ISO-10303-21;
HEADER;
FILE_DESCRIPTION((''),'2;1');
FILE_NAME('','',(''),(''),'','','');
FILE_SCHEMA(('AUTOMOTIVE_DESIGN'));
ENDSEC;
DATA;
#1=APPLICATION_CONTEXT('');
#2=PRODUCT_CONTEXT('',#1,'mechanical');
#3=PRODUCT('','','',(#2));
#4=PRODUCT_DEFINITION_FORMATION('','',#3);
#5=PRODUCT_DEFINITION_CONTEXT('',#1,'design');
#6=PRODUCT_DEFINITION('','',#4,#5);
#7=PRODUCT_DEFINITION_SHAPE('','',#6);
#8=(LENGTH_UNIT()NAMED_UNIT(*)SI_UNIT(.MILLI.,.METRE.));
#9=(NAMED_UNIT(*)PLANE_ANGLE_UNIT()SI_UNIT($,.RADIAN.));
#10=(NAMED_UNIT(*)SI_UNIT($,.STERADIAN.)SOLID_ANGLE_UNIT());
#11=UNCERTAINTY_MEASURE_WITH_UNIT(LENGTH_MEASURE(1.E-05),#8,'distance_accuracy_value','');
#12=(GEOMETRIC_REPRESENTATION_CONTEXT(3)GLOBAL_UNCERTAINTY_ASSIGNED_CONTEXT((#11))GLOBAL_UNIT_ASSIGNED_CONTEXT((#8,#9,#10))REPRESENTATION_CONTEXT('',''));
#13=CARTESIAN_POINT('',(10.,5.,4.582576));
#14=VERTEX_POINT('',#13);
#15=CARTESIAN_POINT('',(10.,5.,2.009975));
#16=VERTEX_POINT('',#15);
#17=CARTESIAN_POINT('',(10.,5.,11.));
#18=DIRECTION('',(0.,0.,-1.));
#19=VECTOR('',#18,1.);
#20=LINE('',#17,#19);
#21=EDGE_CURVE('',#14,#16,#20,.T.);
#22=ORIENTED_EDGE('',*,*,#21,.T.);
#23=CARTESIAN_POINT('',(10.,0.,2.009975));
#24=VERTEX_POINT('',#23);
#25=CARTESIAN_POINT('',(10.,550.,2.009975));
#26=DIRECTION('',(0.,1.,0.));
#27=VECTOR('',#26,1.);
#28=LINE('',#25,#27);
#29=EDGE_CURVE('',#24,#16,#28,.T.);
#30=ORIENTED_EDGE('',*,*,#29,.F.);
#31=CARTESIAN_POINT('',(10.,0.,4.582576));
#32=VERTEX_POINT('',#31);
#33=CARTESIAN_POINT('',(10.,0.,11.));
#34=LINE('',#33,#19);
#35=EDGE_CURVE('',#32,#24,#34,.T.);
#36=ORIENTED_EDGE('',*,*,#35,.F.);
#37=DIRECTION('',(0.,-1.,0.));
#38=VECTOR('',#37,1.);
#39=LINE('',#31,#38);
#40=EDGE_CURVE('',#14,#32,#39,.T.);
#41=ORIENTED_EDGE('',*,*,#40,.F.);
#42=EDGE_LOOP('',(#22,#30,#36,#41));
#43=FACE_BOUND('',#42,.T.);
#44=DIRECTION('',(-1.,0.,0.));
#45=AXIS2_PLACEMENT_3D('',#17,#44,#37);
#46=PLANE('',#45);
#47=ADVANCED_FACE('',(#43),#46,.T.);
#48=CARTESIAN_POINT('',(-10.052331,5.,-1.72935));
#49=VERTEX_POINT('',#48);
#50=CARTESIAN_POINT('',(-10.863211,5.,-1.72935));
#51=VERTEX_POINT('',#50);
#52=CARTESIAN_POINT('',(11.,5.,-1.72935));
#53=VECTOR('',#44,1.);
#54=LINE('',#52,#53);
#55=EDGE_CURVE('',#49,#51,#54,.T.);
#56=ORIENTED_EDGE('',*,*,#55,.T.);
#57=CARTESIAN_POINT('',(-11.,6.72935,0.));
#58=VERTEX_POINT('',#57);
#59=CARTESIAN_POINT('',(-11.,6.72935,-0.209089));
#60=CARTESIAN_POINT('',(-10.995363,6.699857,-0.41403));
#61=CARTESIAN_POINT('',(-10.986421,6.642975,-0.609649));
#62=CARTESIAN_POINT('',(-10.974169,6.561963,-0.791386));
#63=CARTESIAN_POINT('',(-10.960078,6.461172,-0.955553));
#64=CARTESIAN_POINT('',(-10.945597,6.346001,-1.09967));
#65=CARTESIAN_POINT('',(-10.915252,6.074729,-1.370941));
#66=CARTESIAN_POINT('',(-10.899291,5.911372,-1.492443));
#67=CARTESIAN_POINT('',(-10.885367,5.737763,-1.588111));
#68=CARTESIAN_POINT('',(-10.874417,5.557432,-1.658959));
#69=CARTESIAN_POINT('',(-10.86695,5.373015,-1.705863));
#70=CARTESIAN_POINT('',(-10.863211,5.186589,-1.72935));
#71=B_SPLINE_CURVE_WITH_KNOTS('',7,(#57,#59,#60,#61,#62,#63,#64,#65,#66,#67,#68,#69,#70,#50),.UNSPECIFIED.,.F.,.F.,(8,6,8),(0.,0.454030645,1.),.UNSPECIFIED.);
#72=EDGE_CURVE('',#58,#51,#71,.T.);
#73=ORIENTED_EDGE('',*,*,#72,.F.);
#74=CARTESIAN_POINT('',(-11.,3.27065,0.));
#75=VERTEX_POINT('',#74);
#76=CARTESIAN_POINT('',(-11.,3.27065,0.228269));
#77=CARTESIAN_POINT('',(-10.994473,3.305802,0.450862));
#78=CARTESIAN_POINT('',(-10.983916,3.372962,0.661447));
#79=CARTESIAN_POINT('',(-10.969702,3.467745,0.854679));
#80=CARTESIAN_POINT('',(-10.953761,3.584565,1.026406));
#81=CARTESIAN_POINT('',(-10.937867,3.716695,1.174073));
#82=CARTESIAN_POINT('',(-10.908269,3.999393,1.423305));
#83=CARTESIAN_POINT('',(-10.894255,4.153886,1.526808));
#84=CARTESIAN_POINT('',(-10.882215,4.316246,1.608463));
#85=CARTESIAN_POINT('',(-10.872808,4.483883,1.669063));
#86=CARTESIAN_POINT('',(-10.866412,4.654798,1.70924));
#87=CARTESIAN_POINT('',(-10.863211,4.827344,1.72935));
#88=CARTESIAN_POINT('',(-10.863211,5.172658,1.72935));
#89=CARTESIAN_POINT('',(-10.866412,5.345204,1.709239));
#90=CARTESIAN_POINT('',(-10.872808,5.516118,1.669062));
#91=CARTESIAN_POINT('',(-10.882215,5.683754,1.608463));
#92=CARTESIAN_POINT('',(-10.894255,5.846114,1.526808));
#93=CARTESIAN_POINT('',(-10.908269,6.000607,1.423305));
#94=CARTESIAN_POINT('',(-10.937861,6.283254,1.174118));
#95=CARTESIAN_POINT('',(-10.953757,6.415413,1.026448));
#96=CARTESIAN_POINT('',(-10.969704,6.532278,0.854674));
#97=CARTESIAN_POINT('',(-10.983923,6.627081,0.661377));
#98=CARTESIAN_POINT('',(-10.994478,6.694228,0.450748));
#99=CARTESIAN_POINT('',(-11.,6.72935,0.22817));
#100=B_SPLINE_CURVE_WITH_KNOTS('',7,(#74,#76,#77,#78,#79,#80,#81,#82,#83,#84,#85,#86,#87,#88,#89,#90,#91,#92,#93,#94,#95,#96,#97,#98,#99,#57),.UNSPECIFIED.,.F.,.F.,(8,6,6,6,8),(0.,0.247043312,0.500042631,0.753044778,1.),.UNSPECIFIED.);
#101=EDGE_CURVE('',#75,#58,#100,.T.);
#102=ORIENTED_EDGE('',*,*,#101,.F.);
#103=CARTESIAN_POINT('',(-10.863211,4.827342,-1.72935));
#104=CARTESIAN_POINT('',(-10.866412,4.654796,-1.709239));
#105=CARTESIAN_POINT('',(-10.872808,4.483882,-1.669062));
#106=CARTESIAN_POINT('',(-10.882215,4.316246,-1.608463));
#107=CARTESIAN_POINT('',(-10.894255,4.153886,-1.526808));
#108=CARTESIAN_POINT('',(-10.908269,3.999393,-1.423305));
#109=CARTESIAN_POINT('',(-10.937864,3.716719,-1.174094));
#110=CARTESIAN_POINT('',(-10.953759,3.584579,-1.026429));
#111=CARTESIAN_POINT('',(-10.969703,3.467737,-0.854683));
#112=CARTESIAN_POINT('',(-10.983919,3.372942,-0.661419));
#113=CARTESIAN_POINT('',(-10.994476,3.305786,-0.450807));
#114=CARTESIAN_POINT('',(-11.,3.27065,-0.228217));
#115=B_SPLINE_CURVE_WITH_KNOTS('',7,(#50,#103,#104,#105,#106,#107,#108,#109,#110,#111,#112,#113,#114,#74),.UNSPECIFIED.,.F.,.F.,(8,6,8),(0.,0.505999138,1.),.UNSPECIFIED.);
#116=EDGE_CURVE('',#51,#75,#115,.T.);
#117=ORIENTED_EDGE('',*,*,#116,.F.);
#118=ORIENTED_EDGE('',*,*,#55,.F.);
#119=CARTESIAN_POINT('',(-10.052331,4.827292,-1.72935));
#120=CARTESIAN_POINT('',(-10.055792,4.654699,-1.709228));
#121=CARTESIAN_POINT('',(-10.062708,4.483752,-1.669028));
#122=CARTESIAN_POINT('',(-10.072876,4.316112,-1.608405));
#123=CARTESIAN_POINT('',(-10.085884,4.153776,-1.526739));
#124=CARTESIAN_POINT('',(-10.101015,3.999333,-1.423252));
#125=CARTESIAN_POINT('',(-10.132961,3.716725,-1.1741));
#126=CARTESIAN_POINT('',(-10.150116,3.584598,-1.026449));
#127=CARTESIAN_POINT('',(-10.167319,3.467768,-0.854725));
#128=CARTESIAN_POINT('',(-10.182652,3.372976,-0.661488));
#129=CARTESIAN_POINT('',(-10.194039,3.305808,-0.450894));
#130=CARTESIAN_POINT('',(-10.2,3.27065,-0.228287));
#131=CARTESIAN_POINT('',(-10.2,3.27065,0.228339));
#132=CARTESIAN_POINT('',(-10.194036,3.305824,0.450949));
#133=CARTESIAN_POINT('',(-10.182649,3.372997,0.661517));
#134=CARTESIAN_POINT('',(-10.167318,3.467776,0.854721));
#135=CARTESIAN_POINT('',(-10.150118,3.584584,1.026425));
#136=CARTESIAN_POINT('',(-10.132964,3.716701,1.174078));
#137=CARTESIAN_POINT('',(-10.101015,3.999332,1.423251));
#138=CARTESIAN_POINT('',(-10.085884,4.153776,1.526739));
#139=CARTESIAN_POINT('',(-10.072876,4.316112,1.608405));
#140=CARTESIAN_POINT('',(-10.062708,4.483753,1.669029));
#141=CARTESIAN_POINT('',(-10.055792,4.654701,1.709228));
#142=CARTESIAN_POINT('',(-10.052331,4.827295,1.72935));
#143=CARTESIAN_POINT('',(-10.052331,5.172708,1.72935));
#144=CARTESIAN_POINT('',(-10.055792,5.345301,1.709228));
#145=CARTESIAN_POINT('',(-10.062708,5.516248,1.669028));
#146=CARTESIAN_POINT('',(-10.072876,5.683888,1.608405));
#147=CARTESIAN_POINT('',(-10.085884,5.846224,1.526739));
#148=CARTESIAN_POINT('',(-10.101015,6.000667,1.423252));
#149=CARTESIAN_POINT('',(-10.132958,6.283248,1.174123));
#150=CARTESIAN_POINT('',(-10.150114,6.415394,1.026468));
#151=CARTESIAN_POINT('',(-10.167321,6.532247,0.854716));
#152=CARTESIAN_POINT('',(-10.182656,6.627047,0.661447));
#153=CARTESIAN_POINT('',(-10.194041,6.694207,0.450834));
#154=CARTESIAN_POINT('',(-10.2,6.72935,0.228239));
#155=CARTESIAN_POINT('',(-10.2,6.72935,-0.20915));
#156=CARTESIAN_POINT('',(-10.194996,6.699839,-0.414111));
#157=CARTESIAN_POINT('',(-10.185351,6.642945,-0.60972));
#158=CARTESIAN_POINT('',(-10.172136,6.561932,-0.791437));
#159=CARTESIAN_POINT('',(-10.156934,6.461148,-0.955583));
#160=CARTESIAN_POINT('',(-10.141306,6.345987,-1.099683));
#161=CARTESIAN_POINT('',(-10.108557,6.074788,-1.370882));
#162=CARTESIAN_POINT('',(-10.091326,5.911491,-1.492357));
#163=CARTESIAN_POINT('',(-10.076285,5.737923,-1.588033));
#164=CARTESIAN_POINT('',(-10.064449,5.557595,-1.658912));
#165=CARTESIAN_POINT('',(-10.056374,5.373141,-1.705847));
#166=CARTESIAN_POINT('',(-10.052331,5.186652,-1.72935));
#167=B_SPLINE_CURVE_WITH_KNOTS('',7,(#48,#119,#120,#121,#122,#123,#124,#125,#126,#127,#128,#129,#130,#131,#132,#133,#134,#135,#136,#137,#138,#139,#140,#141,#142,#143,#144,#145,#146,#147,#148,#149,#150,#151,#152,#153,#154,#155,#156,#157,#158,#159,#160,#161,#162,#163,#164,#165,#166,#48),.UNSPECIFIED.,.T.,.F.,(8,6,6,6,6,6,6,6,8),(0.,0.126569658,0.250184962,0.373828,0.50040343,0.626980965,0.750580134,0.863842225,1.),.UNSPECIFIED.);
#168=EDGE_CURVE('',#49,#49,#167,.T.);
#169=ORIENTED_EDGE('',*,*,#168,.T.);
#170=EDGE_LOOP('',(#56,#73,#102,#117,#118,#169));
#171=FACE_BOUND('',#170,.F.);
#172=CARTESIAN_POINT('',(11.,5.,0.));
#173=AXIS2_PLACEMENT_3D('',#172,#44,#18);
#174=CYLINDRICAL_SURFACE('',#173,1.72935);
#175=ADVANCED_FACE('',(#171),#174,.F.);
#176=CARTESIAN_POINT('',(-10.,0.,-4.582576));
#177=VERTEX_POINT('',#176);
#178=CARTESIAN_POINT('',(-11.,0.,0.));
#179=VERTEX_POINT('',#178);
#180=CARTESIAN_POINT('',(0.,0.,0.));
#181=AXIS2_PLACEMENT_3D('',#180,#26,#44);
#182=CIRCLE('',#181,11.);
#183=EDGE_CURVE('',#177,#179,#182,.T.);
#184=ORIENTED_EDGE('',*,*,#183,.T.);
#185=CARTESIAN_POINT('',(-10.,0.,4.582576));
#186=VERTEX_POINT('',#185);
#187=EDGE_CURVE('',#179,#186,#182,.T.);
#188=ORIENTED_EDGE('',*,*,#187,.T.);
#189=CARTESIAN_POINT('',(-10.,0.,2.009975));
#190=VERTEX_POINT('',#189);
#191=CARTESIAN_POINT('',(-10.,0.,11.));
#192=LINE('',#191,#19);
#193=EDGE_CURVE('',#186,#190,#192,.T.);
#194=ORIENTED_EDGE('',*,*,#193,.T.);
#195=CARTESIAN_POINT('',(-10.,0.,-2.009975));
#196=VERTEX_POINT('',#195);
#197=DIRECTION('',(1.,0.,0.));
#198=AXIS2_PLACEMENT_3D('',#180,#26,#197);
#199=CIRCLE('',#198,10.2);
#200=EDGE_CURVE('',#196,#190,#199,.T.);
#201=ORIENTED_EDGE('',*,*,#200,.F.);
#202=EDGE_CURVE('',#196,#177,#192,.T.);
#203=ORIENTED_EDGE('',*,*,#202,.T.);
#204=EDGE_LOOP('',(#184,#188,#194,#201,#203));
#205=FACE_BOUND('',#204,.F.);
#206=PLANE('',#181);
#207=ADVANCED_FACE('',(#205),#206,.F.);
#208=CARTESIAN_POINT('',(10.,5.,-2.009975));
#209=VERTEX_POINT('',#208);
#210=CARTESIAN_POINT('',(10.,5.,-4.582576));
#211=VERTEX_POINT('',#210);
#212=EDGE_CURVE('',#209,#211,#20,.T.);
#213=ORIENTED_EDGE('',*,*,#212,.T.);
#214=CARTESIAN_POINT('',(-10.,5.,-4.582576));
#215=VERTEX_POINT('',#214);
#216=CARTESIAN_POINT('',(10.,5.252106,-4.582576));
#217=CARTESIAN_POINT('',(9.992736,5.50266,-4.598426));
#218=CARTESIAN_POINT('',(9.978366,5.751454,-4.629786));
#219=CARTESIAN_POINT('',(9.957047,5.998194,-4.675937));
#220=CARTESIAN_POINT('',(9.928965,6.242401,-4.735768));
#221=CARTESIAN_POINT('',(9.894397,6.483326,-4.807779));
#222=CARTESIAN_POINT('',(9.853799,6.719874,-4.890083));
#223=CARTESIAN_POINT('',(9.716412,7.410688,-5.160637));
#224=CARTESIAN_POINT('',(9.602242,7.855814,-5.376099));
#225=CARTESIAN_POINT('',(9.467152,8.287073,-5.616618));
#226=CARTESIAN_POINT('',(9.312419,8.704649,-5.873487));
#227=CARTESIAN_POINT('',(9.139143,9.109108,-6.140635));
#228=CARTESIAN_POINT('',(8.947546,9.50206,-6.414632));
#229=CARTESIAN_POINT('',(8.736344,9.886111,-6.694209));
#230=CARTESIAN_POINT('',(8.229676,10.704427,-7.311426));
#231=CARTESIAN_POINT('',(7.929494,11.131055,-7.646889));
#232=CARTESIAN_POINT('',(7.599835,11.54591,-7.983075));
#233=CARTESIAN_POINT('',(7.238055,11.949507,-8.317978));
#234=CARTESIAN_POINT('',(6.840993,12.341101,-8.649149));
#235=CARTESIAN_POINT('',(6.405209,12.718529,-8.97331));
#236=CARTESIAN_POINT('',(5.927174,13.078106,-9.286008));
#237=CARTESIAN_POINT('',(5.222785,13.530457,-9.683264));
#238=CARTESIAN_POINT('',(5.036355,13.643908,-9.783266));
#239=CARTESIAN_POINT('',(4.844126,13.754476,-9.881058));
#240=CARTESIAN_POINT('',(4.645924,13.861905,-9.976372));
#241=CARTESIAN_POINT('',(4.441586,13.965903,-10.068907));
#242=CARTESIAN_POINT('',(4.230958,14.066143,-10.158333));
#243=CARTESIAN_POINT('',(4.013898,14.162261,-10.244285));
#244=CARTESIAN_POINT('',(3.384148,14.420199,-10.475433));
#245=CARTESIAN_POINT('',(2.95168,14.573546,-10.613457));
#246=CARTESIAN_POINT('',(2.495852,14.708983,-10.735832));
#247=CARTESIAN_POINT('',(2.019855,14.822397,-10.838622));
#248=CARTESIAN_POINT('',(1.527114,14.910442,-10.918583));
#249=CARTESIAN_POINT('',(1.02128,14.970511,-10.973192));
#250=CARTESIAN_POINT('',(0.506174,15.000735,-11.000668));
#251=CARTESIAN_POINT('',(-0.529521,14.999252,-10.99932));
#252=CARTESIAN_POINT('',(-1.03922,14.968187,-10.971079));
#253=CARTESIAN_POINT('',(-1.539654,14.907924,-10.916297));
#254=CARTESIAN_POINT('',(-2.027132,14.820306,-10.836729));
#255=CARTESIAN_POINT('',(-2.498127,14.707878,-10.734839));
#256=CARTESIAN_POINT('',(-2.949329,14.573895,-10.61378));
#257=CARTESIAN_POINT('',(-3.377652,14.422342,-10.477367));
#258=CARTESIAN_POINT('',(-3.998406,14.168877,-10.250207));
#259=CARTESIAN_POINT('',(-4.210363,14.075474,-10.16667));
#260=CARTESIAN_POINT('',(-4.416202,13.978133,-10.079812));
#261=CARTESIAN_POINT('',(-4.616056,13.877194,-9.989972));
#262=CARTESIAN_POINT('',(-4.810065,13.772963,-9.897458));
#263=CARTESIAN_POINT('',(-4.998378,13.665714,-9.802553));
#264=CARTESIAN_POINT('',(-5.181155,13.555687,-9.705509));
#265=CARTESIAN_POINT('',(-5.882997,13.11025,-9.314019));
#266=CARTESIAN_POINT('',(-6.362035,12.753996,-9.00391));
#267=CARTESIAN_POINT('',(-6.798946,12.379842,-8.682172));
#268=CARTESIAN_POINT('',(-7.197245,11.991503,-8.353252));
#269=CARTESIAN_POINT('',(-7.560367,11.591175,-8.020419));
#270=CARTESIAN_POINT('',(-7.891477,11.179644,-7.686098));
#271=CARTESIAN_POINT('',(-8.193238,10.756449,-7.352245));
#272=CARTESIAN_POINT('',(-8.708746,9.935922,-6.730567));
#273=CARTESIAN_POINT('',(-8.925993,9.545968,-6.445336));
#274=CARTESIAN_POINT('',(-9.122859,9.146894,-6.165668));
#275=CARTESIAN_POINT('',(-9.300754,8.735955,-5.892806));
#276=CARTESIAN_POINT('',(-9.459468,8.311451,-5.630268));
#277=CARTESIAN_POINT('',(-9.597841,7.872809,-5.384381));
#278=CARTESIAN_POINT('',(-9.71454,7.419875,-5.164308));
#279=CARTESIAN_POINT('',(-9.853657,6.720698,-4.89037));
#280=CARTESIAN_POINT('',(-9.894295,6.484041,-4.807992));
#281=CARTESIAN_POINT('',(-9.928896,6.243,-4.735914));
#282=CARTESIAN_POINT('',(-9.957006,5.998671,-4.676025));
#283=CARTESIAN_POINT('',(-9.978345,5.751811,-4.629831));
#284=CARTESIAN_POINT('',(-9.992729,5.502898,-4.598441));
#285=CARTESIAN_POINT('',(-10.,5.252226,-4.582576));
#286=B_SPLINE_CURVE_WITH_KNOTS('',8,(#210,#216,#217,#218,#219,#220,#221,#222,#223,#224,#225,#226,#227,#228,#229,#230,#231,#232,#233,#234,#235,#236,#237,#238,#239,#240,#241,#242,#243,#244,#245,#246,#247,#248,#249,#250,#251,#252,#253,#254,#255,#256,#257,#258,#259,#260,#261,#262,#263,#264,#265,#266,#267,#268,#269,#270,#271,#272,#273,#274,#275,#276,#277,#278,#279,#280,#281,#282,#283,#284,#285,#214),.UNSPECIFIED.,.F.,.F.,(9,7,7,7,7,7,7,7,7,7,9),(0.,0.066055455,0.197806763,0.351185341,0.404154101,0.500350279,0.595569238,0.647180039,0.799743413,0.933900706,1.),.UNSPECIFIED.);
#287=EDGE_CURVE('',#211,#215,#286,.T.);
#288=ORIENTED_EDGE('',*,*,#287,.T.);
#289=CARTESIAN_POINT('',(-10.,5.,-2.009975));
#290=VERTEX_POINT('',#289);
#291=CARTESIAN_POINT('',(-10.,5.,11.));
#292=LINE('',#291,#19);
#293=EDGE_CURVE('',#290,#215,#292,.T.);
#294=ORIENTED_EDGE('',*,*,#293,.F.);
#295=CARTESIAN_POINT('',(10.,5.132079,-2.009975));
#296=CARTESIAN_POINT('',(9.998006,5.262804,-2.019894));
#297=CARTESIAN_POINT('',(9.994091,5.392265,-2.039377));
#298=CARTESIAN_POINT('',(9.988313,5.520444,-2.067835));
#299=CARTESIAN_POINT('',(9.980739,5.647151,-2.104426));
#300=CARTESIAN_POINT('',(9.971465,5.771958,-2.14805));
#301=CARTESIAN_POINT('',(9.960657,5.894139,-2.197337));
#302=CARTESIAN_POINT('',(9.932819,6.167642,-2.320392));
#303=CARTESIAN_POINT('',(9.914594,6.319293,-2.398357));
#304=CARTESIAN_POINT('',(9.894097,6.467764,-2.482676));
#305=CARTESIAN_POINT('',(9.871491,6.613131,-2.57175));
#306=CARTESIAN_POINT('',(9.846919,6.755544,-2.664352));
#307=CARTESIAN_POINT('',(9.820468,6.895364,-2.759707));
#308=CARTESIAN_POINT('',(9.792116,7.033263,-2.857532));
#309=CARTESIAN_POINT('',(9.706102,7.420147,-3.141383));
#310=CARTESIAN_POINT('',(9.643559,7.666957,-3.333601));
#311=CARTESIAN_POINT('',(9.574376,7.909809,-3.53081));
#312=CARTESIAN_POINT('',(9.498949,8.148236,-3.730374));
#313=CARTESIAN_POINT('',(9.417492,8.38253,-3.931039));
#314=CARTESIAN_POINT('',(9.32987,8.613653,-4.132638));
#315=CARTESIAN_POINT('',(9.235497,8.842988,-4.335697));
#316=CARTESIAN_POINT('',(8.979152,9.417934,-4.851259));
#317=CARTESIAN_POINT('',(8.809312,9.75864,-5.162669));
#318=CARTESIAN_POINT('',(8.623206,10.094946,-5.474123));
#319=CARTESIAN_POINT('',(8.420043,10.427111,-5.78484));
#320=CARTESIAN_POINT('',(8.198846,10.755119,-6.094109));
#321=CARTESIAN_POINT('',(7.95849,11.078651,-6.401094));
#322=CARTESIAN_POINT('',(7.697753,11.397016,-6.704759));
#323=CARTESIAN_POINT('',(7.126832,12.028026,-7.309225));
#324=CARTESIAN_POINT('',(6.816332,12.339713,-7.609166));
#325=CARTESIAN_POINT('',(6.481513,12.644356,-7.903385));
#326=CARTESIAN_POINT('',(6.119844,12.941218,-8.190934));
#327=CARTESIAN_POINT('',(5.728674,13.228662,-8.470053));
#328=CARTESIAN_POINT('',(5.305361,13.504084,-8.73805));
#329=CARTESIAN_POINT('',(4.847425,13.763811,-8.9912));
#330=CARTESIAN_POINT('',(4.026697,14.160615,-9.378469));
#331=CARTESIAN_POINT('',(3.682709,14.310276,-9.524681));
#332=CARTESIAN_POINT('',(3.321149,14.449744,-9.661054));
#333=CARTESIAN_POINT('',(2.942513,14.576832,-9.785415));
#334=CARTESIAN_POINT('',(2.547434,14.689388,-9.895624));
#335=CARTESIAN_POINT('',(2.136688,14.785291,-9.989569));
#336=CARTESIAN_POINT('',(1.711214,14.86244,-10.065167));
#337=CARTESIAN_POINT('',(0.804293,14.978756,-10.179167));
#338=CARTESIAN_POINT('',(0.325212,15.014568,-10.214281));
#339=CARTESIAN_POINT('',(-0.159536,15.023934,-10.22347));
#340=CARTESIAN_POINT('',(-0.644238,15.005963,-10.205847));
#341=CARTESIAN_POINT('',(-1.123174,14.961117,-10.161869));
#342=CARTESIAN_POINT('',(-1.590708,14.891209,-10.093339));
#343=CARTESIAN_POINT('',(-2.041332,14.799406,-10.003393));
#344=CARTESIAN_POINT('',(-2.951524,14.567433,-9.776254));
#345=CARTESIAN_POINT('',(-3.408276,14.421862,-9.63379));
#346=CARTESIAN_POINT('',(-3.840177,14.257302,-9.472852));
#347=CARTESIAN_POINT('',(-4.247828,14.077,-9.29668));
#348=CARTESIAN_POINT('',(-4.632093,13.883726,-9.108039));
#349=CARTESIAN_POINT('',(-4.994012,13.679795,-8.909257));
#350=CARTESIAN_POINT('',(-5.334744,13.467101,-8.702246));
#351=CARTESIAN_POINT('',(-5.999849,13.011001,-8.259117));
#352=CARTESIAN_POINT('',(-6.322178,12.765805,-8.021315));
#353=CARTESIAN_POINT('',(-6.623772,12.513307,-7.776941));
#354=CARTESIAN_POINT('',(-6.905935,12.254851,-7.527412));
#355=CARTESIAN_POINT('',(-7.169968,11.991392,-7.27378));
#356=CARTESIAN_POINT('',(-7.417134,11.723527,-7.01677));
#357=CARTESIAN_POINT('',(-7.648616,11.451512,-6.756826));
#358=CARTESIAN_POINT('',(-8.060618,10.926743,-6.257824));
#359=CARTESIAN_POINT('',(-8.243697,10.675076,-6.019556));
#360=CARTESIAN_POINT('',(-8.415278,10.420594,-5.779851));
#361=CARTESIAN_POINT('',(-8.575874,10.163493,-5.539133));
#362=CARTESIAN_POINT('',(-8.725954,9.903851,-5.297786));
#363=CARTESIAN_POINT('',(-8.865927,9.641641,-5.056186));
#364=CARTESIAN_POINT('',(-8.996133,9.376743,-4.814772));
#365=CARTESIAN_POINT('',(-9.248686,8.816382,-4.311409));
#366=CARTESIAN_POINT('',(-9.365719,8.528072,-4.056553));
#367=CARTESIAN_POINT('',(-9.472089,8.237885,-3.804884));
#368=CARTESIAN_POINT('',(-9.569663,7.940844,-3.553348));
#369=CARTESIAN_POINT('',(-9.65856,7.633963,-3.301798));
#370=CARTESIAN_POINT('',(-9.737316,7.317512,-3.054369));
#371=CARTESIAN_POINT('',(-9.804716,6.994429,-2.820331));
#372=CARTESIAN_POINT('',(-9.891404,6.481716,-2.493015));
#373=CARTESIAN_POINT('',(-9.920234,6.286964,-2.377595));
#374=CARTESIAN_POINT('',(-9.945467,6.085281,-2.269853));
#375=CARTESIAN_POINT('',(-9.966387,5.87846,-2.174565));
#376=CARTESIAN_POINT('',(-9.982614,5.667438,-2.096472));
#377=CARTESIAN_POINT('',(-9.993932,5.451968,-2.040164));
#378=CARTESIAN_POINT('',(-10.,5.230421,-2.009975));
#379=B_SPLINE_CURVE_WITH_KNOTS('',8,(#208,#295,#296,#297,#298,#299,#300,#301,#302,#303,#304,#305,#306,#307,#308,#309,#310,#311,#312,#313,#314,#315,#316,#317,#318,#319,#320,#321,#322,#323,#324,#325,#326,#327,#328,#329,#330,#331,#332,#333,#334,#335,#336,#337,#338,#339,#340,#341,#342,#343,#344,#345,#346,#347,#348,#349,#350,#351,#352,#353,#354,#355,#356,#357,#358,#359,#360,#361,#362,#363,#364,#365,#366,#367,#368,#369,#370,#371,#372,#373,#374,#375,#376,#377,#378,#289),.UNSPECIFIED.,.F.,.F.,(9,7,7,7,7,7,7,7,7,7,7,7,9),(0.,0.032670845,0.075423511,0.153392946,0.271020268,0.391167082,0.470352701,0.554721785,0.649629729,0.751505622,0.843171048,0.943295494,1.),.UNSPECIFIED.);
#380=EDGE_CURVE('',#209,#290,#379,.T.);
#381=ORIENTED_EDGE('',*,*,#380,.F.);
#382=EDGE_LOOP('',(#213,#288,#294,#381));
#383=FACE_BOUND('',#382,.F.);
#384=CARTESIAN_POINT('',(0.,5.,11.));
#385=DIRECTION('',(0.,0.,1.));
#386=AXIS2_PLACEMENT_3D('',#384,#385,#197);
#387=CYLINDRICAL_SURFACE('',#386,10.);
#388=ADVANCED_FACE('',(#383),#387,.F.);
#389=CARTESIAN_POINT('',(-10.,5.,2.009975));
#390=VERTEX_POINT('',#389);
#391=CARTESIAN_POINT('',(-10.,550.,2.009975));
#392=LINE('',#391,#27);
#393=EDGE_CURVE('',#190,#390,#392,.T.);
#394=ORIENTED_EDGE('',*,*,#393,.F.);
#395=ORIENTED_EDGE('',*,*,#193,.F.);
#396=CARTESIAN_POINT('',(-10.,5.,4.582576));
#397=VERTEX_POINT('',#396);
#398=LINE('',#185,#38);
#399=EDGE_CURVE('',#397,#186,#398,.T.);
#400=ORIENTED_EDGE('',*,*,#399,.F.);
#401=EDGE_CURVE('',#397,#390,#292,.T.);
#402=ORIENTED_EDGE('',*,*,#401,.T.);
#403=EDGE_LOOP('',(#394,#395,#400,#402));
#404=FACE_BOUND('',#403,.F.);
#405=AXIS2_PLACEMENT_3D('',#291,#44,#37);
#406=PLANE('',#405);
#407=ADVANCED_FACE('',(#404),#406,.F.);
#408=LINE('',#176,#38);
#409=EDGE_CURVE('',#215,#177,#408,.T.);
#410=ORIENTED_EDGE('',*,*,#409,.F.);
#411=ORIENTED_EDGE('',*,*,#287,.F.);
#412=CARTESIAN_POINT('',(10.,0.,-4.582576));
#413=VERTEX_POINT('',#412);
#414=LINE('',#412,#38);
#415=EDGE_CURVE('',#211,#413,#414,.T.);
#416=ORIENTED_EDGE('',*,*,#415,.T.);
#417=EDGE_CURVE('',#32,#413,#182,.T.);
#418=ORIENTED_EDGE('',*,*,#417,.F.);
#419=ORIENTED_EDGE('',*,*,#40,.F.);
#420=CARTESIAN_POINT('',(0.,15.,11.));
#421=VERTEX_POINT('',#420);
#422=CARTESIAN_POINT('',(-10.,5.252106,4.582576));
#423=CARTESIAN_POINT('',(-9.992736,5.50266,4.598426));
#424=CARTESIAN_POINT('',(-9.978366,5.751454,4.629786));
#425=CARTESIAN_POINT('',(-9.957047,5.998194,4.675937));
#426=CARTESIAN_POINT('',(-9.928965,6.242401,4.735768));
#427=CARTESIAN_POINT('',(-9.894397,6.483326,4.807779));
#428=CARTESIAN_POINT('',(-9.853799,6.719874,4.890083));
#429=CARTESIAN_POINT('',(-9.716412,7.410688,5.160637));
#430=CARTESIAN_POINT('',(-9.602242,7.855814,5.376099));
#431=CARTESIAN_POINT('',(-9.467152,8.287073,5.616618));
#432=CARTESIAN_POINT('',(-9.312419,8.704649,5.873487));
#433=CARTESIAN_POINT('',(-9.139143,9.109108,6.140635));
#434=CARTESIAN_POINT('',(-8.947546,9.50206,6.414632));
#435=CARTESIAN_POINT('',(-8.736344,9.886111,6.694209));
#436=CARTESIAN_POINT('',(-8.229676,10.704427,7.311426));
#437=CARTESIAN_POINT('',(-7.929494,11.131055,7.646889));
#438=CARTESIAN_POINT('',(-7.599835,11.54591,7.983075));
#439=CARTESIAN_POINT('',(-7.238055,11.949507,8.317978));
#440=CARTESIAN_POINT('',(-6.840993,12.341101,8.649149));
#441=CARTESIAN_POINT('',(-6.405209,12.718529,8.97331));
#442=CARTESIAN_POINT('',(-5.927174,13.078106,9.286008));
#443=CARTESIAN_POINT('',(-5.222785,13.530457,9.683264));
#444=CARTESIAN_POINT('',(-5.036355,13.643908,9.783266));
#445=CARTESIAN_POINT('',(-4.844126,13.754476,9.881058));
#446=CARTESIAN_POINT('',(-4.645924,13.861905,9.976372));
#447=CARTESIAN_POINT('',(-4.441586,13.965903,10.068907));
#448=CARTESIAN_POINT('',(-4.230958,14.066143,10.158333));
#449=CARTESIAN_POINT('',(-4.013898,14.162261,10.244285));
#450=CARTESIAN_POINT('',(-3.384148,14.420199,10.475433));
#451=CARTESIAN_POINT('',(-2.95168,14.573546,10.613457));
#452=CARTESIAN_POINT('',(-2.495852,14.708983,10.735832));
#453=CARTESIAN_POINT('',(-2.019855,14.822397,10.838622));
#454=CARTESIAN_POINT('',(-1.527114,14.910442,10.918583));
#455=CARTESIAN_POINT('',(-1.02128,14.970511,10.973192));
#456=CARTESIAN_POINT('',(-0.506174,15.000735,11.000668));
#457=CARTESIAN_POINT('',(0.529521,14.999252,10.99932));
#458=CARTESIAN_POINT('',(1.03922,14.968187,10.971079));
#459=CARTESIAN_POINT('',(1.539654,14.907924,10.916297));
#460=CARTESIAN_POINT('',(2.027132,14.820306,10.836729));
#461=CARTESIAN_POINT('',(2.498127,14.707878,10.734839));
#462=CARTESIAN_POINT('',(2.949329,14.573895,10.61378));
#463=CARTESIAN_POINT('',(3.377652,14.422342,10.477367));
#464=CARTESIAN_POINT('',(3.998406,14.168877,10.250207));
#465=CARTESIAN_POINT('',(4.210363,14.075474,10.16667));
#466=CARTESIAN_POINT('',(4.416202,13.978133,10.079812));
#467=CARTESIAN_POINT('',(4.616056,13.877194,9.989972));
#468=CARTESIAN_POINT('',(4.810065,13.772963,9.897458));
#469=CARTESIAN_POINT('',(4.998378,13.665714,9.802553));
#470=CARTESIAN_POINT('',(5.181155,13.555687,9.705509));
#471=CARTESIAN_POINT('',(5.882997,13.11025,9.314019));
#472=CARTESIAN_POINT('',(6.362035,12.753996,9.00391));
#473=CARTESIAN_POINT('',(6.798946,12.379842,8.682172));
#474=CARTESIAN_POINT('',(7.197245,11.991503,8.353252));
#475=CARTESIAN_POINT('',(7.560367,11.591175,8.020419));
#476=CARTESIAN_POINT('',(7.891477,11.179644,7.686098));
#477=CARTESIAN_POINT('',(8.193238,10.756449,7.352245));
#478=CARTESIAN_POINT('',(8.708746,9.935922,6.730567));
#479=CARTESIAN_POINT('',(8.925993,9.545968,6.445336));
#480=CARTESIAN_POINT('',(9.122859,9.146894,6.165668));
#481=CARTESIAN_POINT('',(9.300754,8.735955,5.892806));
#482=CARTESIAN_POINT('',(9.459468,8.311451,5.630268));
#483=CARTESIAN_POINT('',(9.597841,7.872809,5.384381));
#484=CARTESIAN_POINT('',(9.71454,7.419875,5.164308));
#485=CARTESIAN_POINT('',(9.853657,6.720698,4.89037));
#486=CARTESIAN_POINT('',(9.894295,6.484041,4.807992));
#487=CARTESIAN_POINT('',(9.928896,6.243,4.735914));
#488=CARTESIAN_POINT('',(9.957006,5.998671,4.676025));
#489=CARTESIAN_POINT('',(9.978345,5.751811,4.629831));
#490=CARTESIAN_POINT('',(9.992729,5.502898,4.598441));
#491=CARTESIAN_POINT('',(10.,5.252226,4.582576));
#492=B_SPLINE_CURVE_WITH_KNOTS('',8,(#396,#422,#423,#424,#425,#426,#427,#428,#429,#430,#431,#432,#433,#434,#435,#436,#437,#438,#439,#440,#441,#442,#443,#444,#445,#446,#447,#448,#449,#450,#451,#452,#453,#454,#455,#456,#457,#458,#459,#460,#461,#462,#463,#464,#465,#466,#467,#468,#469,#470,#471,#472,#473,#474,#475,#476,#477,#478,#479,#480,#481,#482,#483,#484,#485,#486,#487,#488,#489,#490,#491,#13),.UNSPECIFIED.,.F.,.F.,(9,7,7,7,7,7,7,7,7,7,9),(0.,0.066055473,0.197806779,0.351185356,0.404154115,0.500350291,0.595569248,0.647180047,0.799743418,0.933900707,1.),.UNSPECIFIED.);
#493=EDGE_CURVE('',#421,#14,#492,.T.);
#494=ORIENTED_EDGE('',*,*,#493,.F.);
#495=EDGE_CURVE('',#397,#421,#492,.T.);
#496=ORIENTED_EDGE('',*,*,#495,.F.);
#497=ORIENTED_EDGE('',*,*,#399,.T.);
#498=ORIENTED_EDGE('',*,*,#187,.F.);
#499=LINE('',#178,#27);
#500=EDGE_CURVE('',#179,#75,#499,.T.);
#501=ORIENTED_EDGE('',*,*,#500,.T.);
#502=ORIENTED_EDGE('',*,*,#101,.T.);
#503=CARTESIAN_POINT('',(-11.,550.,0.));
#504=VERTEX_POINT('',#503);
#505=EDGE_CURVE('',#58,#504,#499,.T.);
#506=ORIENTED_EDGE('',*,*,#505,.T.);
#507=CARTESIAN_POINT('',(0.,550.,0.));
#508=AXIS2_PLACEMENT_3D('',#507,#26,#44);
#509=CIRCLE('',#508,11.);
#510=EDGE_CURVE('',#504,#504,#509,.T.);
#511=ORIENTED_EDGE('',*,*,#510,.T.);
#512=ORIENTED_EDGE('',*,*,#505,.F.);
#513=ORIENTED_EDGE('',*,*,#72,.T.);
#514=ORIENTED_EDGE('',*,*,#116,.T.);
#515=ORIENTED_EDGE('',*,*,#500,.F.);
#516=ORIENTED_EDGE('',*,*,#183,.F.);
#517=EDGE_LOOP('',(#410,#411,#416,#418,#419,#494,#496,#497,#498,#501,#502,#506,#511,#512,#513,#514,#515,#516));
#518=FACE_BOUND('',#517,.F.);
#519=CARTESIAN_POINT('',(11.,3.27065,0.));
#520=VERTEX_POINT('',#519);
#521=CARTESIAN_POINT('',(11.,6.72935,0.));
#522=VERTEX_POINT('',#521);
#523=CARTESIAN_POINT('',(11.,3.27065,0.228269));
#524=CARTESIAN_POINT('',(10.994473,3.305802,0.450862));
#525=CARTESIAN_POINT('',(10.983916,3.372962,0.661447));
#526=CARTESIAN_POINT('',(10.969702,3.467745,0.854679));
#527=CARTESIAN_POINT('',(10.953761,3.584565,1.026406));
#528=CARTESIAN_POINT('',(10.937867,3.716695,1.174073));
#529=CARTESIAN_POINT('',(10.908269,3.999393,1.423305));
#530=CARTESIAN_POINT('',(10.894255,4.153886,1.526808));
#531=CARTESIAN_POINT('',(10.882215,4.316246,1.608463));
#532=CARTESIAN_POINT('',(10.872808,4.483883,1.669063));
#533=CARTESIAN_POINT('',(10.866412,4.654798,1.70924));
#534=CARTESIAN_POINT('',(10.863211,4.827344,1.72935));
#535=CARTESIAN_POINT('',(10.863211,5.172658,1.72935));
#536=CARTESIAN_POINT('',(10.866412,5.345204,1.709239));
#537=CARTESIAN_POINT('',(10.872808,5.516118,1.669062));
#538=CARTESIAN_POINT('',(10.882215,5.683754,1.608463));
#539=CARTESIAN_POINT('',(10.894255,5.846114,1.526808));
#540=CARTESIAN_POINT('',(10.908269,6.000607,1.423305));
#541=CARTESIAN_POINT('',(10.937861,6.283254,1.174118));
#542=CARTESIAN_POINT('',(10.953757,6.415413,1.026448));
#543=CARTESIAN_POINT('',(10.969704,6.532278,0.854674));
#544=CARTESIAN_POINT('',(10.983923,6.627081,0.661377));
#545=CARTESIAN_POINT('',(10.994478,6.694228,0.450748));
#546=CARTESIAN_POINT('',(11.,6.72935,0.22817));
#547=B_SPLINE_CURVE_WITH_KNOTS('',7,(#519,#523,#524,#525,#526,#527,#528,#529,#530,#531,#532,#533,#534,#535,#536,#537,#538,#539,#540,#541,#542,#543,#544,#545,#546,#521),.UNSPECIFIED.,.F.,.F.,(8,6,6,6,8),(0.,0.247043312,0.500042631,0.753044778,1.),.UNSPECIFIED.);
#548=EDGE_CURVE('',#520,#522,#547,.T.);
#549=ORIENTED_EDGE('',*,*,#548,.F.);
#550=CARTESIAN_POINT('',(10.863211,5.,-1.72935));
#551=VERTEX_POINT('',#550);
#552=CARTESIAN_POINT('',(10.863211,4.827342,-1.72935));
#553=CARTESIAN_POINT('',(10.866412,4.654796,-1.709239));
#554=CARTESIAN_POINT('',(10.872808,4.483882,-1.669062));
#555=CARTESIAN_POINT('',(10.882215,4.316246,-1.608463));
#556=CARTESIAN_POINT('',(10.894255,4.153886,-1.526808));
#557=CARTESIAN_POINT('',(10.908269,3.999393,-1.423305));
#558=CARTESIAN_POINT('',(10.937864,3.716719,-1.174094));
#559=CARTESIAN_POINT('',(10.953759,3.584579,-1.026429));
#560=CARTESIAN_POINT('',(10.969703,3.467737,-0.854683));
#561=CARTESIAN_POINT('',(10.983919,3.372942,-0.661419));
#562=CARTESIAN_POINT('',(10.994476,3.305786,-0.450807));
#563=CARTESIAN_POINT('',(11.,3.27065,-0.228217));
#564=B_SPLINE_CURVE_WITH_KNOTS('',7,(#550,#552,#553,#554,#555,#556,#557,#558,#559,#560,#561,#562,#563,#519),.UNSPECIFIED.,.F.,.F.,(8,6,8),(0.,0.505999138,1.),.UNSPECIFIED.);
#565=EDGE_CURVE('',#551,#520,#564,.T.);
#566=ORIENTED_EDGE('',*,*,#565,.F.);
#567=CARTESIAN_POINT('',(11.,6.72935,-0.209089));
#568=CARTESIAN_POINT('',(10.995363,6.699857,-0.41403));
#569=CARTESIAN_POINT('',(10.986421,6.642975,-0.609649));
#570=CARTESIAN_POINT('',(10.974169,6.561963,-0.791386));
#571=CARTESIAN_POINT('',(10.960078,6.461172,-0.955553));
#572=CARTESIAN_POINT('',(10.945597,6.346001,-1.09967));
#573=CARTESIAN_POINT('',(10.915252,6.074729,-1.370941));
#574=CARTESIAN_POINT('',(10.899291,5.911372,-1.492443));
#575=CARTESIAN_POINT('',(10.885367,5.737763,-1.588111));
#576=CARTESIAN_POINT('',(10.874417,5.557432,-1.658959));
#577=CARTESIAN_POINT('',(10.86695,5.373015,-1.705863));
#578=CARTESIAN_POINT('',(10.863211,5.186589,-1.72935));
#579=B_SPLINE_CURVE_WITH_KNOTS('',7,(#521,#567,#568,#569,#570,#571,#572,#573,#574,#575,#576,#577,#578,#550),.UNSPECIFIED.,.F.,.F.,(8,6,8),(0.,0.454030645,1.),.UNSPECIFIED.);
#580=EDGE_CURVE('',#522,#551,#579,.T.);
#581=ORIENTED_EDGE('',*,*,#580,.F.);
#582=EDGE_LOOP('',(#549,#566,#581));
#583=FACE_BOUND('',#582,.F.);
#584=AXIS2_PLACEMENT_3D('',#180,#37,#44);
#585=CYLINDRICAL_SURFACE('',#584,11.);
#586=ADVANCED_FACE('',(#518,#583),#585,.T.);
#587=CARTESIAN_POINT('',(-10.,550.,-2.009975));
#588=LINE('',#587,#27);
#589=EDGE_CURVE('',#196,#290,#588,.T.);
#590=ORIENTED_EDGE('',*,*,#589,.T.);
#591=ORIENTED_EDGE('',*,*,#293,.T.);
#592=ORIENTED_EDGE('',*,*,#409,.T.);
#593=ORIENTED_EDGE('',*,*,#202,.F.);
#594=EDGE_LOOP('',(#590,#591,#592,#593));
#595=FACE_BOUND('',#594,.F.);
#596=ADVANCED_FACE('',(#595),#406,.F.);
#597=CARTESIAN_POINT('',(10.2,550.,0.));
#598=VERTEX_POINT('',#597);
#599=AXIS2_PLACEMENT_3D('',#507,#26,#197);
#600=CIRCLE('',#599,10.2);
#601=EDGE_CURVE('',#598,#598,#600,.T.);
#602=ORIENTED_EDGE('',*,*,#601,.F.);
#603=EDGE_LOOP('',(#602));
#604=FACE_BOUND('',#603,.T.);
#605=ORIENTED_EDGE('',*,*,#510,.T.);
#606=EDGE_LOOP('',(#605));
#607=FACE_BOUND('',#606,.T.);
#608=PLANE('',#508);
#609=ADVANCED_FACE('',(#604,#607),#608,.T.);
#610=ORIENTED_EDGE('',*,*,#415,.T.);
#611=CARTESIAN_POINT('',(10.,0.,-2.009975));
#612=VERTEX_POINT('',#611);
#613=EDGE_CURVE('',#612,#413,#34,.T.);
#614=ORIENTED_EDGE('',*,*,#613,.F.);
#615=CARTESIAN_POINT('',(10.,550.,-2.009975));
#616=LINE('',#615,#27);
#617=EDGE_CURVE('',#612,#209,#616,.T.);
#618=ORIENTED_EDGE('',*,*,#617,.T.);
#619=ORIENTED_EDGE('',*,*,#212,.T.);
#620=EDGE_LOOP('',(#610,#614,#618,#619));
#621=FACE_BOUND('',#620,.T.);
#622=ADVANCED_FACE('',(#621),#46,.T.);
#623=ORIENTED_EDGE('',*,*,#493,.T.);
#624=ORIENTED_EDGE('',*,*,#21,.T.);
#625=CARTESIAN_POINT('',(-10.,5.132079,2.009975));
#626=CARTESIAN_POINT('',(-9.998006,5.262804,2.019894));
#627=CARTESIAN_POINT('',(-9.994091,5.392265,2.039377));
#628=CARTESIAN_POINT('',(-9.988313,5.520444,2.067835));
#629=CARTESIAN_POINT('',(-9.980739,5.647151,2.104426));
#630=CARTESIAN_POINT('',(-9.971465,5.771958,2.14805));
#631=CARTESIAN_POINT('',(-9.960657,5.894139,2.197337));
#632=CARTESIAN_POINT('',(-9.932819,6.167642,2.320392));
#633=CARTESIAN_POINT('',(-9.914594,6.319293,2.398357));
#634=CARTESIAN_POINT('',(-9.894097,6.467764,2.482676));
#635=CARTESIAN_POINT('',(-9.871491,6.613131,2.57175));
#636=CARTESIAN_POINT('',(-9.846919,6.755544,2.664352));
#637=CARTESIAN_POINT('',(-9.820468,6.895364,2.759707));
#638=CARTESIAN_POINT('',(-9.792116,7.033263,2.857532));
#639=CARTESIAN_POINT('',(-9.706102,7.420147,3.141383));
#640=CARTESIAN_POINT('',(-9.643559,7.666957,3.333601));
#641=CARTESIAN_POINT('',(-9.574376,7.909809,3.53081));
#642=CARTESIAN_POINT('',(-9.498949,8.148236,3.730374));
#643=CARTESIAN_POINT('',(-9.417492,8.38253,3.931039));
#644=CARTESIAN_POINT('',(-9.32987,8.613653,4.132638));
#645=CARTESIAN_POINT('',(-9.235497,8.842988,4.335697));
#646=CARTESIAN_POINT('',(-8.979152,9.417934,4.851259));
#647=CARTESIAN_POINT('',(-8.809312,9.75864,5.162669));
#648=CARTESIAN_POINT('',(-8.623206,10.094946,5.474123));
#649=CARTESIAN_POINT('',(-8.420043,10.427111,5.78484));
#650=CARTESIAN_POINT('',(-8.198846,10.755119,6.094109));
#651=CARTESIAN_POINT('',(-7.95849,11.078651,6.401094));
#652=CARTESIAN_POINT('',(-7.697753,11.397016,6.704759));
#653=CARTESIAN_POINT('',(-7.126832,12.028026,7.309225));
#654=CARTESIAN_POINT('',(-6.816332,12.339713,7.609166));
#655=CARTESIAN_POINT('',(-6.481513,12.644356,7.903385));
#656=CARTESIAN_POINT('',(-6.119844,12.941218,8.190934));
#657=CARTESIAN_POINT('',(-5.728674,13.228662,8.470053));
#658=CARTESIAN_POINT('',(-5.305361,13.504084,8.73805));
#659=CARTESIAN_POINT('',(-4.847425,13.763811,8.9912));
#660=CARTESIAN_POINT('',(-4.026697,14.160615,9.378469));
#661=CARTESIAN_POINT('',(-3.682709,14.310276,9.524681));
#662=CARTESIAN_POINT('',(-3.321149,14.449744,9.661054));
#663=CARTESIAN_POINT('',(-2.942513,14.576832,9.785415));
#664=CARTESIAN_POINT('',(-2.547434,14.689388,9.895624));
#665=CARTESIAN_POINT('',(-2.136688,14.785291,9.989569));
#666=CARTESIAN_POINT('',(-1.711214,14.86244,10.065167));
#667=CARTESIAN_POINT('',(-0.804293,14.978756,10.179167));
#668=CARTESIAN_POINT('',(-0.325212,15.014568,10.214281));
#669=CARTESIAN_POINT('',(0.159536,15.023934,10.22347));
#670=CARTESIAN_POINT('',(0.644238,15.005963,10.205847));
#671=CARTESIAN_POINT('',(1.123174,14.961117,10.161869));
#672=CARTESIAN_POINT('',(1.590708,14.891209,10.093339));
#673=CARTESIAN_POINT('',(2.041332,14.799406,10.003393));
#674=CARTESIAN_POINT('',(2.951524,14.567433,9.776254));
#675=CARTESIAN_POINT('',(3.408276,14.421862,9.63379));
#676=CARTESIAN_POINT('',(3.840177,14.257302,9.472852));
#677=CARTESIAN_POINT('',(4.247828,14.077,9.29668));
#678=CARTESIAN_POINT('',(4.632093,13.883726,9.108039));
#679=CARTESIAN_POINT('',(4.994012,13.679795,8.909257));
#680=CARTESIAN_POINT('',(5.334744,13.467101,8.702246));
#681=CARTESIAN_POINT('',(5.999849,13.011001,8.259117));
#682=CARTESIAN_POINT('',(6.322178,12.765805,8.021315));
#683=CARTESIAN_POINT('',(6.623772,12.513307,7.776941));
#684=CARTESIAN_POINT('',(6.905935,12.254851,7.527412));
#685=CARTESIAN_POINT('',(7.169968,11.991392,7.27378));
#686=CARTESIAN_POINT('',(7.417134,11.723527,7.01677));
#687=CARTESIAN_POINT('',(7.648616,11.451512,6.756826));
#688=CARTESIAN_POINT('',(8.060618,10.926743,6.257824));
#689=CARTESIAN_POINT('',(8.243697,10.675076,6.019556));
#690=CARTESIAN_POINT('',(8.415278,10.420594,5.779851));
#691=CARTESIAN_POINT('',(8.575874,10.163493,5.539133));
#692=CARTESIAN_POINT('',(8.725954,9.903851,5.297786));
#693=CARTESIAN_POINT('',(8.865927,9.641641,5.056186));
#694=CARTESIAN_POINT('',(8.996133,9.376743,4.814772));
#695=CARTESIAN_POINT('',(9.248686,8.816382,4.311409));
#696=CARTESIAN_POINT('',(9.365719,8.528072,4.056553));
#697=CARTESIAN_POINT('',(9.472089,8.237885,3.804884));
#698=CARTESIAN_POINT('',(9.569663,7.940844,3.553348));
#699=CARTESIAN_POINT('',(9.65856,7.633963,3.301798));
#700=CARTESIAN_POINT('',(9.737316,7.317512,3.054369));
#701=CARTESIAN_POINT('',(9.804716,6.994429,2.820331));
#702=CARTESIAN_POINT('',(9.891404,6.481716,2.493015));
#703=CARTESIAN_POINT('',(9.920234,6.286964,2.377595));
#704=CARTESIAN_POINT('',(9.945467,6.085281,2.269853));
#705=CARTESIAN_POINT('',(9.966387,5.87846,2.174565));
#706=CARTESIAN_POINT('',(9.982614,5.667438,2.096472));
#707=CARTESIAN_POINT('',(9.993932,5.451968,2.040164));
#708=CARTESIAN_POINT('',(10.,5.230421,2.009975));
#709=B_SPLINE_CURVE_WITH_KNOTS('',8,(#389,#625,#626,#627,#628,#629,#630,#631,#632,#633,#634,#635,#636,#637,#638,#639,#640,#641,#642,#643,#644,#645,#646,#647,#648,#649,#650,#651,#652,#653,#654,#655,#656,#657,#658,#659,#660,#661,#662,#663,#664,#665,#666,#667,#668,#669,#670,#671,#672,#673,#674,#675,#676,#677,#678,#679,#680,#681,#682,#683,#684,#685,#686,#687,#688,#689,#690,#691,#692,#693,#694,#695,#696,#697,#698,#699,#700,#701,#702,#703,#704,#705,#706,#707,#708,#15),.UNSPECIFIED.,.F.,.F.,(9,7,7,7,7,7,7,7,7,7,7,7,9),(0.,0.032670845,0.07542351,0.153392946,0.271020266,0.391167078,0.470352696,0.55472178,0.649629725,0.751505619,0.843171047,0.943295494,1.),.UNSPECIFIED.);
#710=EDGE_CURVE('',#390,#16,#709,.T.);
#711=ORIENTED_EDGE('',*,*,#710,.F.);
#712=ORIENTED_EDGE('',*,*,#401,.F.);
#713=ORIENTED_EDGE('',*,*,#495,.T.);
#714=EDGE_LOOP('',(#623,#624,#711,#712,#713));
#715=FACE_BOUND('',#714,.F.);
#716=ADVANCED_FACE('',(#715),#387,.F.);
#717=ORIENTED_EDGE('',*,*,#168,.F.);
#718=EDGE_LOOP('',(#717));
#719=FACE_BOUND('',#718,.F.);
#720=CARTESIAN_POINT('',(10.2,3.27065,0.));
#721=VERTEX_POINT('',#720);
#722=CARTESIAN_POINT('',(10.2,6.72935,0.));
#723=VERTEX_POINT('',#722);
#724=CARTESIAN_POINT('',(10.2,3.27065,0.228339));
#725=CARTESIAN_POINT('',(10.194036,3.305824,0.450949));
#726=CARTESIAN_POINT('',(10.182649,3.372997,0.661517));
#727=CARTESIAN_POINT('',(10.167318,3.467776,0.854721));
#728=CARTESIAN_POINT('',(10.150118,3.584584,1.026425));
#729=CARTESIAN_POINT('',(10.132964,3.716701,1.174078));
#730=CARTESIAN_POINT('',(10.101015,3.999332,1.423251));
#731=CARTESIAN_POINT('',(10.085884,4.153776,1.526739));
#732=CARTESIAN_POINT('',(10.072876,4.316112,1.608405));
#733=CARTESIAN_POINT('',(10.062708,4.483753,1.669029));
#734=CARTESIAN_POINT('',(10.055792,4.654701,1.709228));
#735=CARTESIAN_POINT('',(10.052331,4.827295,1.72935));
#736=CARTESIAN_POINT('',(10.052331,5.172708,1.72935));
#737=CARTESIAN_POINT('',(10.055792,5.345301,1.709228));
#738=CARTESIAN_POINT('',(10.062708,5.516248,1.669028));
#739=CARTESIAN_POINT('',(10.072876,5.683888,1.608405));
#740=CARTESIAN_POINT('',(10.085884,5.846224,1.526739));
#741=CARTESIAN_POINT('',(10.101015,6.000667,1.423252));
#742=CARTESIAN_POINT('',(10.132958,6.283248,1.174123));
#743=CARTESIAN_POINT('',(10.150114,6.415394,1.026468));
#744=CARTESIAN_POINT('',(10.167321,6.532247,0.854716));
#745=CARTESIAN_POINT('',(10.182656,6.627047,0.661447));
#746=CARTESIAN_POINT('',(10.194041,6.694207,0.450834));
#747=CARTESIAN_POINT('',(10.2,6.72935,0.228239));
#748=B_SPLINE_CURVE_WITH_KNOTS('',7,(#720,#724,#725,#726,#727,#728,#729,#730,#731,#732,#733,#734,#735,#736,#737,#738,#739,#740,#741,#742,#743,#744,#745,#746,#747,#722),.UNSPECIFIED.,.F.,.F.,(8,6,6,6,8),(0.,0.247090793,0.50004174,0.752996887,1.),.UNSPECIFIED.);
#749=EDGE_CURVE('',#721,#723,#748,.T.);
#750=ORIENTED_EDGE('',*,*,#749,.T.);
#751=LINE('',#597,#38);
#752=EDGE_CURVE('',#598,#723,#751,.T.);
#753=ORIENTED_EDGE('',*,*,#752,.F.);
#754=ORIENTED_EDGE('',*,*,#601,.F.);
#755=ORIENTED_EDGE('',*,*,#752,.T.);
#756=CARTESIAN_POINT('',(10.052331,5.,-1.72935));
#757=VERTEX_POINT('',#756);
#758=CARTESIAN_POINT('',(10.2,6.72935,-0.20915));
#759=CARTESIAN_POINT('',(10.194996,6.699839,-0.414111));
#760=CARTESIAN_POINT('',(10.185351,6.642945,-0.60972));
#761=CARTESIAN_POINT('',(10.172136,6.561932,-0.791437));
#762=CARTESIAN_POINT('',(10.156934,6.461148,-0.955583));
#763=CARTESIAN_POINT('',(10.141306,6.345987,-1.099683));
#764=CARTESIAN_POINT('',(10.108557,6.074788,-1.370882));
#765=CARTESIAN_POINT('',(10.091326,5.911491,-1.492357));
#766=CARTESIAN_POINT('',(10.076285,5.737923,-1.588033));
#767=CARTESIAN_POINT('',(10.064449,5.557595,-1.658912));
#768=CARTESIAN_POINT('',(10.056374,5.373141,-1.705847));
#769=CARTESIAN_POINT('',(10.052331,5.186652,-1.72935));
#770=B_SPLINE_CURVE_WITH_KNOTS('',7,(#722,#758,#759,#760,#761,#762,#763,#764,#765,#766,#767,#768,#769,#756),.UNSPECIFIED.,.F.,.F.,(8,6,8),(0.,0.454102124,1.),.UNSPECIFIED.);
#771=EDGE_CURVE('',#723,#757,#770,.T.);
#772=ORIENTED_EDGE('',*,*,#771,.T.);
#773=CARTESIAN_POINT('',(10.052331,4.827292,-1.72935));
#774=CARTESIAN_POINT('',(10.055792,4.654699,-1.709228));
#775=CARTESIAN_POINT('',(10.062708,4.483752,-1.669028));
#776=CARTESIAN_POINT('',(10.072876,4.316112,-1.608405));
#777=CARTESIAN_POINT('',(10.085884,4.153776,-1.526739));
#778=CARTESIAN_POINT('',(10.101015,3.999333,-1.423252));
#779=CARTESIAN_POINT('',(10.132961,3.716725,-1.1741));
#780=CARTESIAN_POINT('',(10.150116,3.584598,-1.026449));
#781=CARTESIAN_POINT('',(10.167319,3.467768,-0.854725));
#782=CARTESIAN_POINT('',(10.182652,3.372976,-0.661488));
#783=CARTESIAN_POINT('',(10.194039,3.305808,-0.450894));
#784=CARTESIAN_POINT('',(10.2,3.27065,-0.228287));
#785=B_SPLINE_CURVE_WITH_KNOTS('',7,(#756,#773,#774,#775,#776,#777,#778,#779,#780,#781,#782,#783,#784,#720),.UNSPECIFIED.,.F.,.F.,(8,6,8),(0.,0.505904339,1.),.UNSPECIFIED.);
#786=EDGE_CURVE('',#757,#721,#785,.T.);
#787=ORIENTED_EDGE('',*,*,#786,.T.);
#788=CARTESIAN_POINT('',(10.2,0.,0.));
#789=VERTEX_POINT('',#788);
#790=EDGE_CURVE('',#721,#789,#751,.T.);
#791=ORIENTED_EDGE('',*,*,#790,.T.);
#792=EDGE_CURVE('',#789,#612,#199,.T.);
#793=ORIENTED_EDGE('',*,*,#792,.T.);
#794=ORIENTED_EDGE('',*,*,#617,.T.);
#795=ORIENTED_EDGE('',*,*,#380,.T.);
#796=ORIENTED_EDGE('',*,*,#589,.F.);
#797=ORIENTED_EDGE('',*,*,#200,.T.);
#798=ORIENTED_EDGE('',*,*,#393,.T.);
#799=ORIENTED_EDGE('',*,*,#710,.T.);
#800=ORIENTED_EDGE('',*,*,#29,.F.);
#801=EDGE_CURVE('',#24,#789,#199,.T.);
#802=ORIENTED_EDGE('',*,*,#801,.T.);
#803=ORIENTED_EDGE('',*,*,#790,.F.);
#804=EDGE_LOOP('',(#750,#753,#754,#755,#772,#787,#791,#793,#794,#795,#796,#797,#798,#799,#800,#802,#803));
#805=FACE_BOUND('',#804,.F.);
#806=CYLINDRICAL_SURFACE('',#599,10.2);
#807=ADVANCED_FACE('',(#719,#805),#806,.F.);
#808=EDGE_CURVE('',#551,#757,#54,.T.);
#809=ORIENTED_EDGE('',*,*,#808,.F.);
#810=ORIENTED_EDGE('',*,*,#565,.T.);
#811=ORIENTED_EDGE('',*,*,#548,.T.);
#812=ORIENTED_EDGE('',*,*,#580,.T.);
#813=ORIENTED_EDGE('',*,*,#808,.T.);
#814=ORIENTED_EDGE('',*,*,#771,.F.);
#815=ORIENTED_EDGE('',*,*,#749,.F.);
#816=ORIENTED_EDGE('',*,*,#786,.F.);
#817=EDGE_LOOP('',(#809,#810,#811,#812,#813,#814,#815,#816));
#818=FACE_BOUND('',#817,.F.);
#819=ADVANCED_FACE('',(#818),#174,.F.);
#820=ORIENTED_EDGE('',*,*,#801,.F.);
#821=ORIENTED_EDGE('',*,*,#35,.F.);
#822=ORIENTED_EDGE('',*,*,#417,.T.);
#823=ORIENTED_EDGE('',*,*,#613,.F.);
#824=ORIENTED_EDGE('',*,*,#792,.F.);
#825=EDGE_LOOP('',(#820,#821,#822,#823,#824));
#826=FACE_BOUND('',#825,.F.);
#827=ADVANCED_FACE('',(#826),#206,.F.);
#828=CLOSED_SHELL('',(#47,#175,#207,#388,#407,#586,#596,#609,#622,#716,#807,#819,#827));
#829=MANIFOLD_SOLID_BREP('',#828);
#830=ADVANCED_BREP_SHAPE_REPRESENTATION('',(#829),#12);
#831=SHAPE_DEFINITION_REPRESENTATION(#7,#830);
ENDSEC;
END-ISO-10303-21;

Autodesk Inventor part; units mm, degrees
ref_plane "YZ Plane" through (0, 0, 0) normal (1, 0, 0) x (0, 1, 0)
ref_plane "XZ Plane" through (0, 0, 0) normal (0, 1, 0) x (-1, 0, 0)
ref_plane "XY Plane" through (0, 0, 0) normal (0, 0, 1) x (1, 0, 0)
sketch "Sketch1" plane through (0, 0, 0) normal (0, 1, 0) x (-1, 0, 0)
  circle A0 centre (0, 0) radius 11
  dimension "d0" = 22
extrude "Extrusion1" add sketch "Sketch1" along normal blind 550
sketch "Sketch7" plane through (0, 550, 0) normal (0, 1, 0) x (1, 0, 0)
  circle A0 centre (0, 0) radius 10.2
  dimension "d23" = 20.4
extrude "Extrusion3" cut sketch "Sketch7" against normal through all
sketch "Sketch8" plane through (0, 0, 0) normal (0, -1, 0) x (1, 0, 0)
  circle A0 centre (0, 0) radius 11 projected
  point P0 (0, 11)
ref_plane "Work Plane3" through (0, 0, 11) normal (0, 0, 1) x (1, 0, 0)
sketch "Sketch9" plane through (0, 0, 11) normal (0, 0, 1) x (1, 0, 0)
  arc A0 (10, 5) -> (-10, 5) centre (0, 5) ccw
  line L0 (-10, 5) -> (-10, 0)
  line L1 (11, 0) -> (-11, 0) projected
  line L2 (10, 5) -> (10, 0)
  point P0 (0, 0)
  dimension "d26" = 5
  dimension "d27" = 20
extrude "Extrusion4" cut sketch "Sketch9" against normal through all
sketch "Sketch10" plane through (0, 0, 0) normal (0, -1, 0) x (1, 0, 0)
  circle A0 centre (0, 0) radius 11 projected
  point P0 (11, 0)
ref_plane "Work Plane4" through (11, 0, 0) normal (1, 0, 0) x (0, 1, 0)
sketch "Sketch11" plane through (11, 0, 0) normal (1, 0, 0) x (0, 1, 0)
  line L0 (0, -4.5826) -> (0, 4.5826) projected
  point P0 (0, 0)
  point P1 (5, 0)
  point P2 (0, 0)
  dimension "d30" = 5
hole "Hole3" at (11, 5, 0) direction (-1, 0, 0) diameter 3.4587 end through all thread size "M4x0.5" class "6H" standard "ISO Metric profile"
equation "\"d36\" = Thickness"
equation "\"BendRadius\" = Thickness"
equation "\"BendReliefWidth\" = Thickness"
equation "\"BendReliefDepth\" = 0.5 * Thickness"
equation "\"CornerReliefSize\" = 4 * Thickness"
equation "\"MinimumRemnant\" = 2 * Thickness"
equation "\"TransitionRadius\" = BendRadius"
equation "\"JacobiRadiusSize\" = BendRadius"
equation "\"GapSize\" = Thickness"
equation "\"Thickness\" = 0.5"
properties part number "Output link body"
